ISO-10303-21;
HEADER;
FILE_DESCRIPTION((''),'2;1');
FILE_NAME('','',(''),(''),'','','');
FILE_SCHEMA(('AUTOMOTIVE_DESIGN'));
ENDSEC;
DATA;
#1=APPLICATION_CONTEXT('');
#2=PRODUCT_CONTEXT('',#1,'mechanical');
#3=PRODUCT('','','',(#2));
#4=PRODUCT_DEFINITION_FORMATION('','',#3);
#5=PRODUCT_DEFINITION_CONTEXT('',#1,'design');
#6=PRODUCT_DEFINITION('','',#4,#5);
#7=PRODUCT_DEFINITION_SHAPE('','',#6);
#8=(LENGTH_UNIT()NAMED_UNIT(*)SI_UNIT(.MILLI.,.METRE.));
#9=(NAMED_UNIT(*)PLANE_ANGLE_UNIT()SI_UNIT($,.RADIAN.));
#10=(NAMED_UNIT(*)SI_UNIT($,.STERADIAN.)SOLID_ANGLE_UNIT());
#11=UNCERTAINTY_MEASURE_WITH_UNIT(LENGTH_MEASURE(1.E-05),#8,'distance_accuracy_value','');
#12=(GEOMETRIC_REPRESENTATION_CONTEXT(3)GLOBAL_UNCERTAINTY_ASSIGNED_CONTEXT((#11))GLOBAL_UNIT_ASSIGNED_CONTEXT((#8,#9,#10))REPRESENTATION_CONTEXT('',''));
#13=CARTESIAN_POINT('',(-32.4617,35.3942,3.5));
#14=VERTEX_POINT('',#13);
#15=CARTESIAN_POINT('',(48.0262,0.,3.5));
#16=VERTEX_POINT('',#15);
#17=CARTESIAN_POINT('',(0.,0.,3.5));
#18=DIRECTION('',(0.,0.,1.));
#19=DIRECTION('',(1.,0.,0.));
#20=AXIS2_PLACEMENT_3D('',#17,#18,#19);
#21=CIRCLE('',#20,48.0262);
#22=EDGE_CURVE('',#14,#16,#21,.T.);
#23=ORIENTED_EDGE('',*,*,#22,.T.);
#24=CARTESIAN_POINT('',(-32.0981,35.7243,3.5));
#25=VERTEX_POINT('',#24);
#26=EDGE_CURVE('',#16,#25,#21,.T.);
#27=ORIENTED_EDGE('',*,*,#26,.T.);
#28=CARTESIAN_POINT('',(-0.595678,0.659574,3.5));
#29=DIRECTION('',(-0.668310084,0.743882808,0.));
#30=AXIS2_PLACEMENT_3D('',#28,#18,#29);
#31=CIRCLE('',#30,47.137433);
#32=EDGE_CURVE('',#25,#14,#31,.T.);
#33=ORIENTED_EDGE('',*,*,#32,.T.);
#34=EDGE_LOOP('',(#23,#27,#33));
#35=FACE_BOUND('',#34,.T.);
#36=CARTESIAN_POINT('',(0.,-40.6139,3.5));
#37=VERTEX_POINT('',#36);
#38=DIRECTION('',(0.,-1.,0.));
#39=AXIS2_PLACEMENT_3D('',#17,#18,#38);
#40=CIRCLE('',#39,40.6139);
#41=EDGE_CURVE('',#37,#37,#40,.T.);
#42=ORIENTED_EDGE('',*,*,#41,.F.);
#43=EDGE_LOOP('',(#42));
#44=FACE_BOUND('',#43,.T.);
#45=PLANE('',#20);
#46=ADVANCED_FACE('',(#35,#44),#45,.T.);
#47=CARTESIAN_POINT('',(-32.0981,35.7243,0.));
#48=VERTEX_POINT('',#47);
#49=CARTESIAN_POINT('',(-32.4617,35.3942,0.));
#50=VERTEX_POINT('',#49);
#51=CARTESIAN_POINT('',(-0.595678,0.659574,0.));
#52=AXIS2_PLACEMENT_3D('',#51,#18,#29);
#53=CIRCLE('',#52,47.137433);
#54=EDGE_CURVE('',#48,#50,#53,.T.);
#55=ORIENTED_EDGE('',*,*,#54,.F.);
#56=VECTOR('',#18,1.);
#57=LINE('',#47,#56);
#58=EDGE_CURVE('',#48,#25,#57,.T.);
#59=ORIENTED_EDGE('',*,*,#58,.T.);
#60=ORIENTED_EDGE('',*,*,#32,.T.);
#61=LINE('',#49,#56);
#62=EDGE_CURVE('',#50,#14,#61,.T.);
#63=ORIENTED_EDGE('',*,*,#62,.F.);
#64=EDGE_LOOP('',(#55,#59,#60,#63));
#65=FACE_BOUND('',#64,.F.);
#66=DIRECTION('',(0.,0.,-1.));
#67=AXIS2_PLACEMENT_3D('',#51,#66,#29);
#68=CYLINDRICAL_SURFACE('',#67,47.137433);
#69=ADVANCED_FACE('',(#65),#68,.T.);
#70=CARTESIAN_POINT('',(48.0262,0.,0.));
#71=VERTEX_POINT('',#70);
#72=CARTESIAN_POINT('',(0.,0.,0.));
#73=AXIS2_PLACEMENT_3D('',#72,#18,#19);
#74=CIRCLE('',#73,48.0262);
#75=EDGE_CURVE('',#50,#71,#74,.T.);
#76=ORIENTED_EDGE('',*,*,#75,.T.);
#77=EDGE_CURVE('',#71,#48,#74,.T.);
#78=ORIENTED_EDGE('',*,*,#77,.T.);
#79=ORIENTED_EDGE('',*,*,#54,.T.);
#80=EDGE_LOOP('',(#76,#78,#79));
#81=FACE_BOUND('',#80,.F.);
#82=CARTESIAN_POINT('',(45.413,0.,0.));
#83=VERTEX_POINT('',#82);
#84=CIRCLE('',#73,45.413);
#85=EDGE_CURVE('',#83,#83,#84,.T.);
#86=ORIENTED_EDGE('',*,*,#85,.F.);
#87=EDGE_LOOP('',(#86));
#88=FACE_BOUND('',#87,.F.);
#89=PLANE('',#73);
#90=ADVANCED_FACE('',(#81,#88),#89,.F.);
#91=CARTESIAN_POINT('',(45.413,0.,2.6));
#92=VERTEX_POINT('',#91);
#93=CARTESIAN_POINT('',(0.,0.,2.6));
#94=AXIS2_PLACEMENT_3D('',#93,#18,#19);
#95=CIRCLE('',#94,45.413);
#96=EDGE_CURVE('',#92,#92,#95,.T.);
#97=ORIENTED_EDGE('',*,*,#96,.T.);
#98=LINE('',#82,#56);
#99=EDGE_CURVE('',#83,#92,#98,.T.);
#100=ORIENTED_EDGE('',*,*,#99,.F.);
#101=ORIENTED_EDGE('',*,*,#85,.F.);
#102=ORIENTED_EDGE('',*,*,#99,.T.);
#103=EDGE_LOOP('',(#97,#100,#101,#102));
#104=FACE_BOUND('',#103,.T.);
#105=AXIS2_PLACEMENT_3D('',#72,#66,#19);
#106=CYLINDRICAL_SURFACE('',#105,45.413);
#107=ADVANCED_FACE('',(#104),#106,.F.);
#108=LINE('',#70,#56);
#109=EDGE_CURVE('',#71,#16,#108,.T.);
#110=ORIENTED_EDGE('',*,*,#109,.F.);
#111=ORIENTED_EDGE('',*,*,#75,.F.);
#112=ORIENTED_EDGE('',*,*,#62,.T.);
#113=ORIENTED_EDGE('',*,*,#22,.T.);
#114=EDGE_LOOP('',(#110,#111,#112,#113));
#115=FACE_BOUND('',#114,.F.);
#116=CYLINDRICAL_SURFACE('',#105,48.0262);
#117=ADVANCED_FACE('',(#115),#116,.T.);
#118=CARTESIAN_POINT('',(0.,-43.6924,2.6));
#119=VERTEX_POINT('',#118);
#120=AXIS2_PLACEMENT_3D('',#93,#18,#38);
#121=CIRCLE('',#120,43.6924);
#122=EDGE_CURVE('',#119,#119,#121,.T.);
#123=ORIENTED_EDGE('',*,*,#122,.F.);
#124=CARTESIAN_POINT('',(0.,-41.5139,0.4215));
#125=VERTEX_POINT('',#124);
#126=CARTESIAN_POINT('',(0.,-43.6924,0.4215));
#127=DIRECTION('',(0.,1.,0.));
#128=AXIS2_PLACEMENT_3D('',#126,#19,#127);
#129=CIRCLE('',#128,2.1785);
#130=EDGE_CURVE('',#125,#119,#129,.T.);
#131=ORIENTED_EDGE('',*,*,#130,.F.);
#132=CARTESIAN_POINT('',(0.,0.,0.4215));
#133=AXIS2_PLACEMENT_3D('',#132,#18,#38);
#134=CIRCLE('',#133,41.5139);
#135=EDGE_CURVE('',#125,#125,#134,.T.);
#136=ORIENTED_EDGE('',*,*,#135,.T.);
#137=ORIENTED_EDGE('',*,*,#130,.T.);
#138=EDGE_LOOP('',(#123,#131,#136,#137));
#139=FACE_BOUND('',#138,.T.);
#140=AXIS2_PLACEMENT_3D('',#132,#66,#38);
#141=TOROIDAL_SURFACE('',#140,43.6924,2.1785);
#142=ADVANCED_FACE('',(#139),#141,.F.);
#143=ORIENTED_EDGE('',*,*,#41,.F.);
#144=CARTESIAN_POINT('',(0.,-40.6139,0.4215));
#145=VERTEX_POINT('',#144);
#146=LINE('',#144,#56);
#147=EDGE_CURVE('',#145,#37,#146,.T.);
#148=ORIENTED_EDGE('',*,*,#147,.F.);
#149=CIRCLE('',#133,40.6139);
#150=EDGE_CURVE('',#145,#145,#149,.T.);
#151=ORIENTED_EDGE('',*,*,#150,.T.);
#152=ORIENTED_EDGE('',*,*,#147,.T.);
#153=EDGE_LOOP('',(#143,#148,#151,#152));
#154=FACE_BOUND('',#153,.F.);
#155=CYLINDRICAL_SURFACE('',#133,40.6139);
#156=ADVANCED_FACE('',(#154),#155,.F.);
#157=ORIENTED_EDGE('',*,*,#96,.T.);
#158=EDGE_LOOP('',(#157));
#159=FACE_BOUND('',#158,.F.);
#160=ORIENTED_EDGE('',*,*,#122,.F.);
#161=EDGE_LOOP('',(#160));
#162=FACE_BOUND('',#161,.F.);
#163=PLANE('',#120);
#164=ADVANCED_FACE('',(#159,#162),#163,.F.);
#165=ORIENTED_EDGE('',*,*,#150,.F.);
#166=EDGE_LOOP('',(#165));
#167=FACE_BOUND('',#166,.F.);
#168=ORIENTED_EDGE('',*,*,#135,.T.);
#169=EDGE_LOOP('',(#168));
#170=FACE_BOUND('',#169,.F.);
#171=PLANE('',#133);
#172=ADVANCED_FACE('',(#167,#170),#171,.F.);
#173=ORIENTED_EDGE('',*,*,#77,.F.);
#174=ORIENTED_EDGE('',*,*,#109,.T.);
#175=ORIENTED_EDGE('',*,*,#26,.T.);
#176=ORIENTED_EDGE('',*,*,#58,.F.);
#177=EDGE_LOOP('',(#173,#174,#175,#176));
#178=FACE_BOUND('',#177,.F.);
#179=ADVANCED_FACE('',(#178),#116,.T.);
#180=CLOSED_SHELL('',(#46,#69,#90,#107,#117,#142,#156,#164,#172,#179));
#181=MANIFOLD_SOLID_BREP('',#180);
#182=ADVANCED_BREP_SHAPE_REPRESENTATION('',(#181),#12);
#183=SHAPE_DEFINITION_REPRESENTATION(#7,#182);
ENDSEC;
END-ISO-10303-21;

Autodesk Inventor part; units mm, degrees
ref_plane "YZ Plane" through (0, 0, 0) normal (1, 0, 0) x (0, 1, 0)
ref_plane "XZ Plane" through (0, 0, 0) normal (0, 1, 0) x (-1, 0, 0)
ref_plane "РабПлоскость1" through (0, 0, 0) normal (0, 0, 1) x (1, 0, 0)
sketch "Эскиз1" plane through (0, 0, 0) normal (0, 0, 1) x (1, 0, 0)
  circle A0 centre (-0.0031, 0.0005) radius 45.313 projected
  arc A1 (-32.0981, 35.7243) -> (-32.4617, 35.3942) centre (0, 0) ccw projected
  circle A2 centre (0, 0) radius 45.413
  circle A3 centre (0, 0) radius 48.0262
  point P0 (0, 0)
  point P1 (-32.4617, 35.3942)
  point P2 (-32.0981, 35.7243)
  dimension "d0" = 90.626
  dimension "d1" = 90.826
ref_plane "РабПлоскость2" through (-45.3206, -45.317, 0.4115) normal (0, 0, 1) x (1, 0.0001, 0)
extrude "Выдавливание1" add sketch "Эскиз1" along normal blind 3.5 contours A3 A1
ref_plane "РабПлоскость3" through (0, 0, 1.75) normal (0, 0, 1) x (1, 0, 0)
sketch "Эскиз3" plane through (0, 0, 0) normal (0, 0, 1) x (1, 0, 0)
  arc A0 (-22.0856, 39.6831) -> (-7.3436, 35.1497) centre (-7.7664, 60.011) ccw projected
  line L0 (-7.3436, 35.1497) -> (7.3325, 35.1512) projected
  arc A1 (7.3325, 35.1512) -> (22.0736, 39.6875) centre (7.7504, 60.0125) ccw projected
  circle A2 centre (0, 0) radius 45.413 projected
  circle A3 centre (-15.1051, 31) radius 1.55 projected
  circle A4 centre (15.0949, 31.002) radius 1.55 projected
  arc A5 (-17.5837, 28.9218) -> (-32.0889, 32.1347) centre (-28.1894, 15.3907) ccw projected
  arc A6 (-16.8937, 28.4734) -> (-17.5837, 28.9218) centre (-22.6832, 20.3197) ccw projected
  arc A7 (-16.8937, 28.4734) -> (-9.3575, 28.0766) centre (-12.8523, 33.4648) ccw projected
  arc A8 (-5.0551, 30.151) -> (-5.054, 19.151) centre (-5.0545, 24.651) ccw projected
  line L1 (5.0449, 30.151) -> (-5.0551, 30.151) projected
  arc A9 (5.046, 19.151) -> (5.0449, 30.151) centre (5.0455, 24.651) ccw projected
  arc A10 (9.3461, 28.0795) -> (16.884, 28.4767) centre (12.8416, 33.4673) ccw projected
  arc A11 (17.5738, 28.9252) -> (16.884, 28.4767) centre (22.675, 20.3242) ccw projected
  arc A12 (32.0838, 32.1398) -> (17.5738, 28.9252) centre (28.1822, 15.3963) ccw projected
  point P0 (0, 0)
  point P1 (-22.0837, 39.6818)
extrude "Выдавливание2" [suppressed]
sketch "Эскиз4" plane through (0, 0, 0) normal (0, 0, -1) x (-1, 0, 0)
  circle A0 centre (-15.099, -31.001) radius 1.6 projected
  circle A1 centre (15.101, -31) radius 1.6 projected
  circle A2 centre (-15.101, 31) radius 1.6 projected
  circle A3 centre (15.099, 31.001) radius 1.6 projected
  arc A4 (47.464, 7.3269) -> (46.1696, 9.1429) centre (45.0118, 6.9484) ccw projected
  line L0 (46.1696, 9.1429) -> (46.154, 9.2214) projected
  arc A5 (46.154, 9.2214) -> (46.6549, 11.3945) centre (44.2445, 10.8058) ccw projected
  arc A6 (46.6549, 11.3945) -> (46.5359, 11.8709) centre (0, 0) ccw projected
  arc A7 (45.1226, 16.4459) -> (43.4988, 17.9745) centre (42.7913, 15.5962) ccw projected
  line L1 (43.4988, 17.9745) -> (43.4682, 18.0484) projected
  arc A8 (43.4682, 18.0484) -> (43.5355, 20.2775) centre (41.2862, 19.2298) ccw projected
  arc A9 (43.5355, 20.2775) -> (43.3259, 20.7215) centre (0, 0) ccw projected
  arc A10 (41.0471, 24.9329) -> (39.1563, 26.1153) centre (38.9264, 23.6447) ccw projected
  line L2 (39.1563, 26.1153) -> (39.1119, 26.1818) projected
  arc A11 (39.1119, 26.1818) -> (38.743, 28.3812) centre (36.7414, 26.9149) ccw projected
  arc A12 (38.743, 28.3812) -> (38.4508, 28.7758) centre (0, 0) ccw projected
  arc A13 (35.3942, 32.4617) -> (33.3091, 33.2525) centre (33.5656, 30.7846) ccw projected
  line L3 (33.3091, 33.2525) -> (33.2525, 33.3091) projected
  arc A14 (33.2525, 33.3091) -> (32.4617, 35.3942) centre (30.7846, 33.5656) ccw projected
  arc A15 (32.4617, 35.3942) -> (32.0981, 35.7243) centre (0, 0) ccw projected
  arc A16 (28.3812, 38.743) -> (26.1818, 39.1119) centre (26.9149, 36.7414) ccw projected
  line L4 (26.1818, 39.1119) -> (26.1153, 39.1563) projected
  arc A17 (26.1153, 39.1563) -> (24.9329, 41.0471) centre (23.6447, 38.9264) ccw projected
  arc A18 (24.9329, 41.0471) -> (24.5119, 41.2999) centre (0, 0) ccw projected
  arc A19 (20.2775, 43.5355) -> (18.0484, 43.4682) centre (19.2298, 41.2862) ccw projected
  line L5 (18.0484, 43.4682) -> (17.9745, 43.4988) projected
  arc A20 (17.9745, 43.4988) -> (16.4459, 45.1226) centre (15.5962, 42.7913) ccw projected
  arc A21 (16.4459, 45.1226) -> (15.9837, 45.2884) centre (0, 0) ccw projected
  arc A22 (11.3945, 46.6549) -> (9.2214, 46.154) centre (10.8058, 44.2445) ccw projected
  line L6 (9.2214, 46.154) -> (9.1429, 46.1696) projected
  arc A23 (9.1429, 46.1696) -> (7.3269, 47.464) centre (6.9484, 45.0118) ccw projected
  arc A24 (7.3269, 47.464) -> (6.8412, 47.5364) centre (0, 0) ccw projected
  arc A25 (2.0736, 47.9814) -> (0.04, 47.0662) centre (1.9665, 45.5024) ccw projected
  line L7 (0.04, 47.0662) -> (-0.04, 47.0662) projected
  arc A26 (-0.04, 47.0662) -> (-2.0736, 47.9814) centre (-1.9665, 45.5024) ccw projected
  arc A27 (-2.0736, 47.9814) -> (-2.5641, 47.9577) centre (0, 0) ccw projected
  arc A28 (-7.3269, 47.464) -> (-9.1429, 46.1696) centre (-6.9484, 45.0118) ccw projected
  line L8 (-9.1429, 46.1696) -> (-9.2214, 46.154) projected
  arc A29 (-9.2214, 46.154) -> (-11.3945, 46.6549) centre (-10.8058, 44.2445) ccw projected
  arc A30 (-11.3945, 46.6549) -> (-11.8709, 46.5359) centre (0, 0) ccw projected
  arc A31 (-16.4459, 45.1226) -> (-17.9745, 43.4988) centre (-15.5962, 42.7913) ccw projected
  line L9 (-17.9745, 43.4988) -> (-18.0484, 43.4682) projected
  arc A32 (-18.0484, 43.4682) -> (-20.2775, 43.5355) centre (-19.2298, 41.2862) ccw projected
  arc A33 (-20.2775, 43.5355) -> (-20.7215, 43.3259) centre (0, 0) ccw projected
  arc A34 (-24.9329, 41.0471) -> (-26.1153, 39.1563) centre (-23.6447, 38.9264) ccw projected
  line L10 (-26.1153, 39.1563) -> (-26.1818, 39.1119) projected
  arc A35 (-26.1818, 39.1119) -> (-28.3812, 38.743) centre (-26.9149, 36.7414) ccw projected
  arc A36 (-28.3812, 38.743) -> (-28.7758, 38.4508) centre (0, 0) ccw projected
  arc A37 (-32.4617, 35.3942) -> (-33.2525, 33.3091) centre (-30.7846, 33.5656) ccw projected
  line L11 (-33.2525, 33.3091) -> (-33.3091, 33.2525) projected
  arc A38 (-33.3091, 33.2525) -> (-35.3942, 32.4617) centre (-33.5656, 30.7846) ccw projected
  arc A39 (-35.3942, 32.4617) -> (-35.7243, 32.0981) centre (0, 0) ccw projected
  arc A40 (-38.743, 28.3812) -> (-39.1119, 26.1818) centre (-36.7414, 26.9149) ccw projected
  line L12 (-39.1119, 26.1818) -> (-39.1563, 26.1153) projected
  arc A41 (-39.1563, 26.1153) -> (-41.0471, 24.9329) centre (-38.9264, 23.6447) ccw projected
  arc A42 (-41.0471, 24.9329) -> (-41.2999, 24.5119) centre (0, 0) ccw projected
  arc A43 (-43.5355, 20.2775) -> (-43.4682, 18.0484) centre (-41.2862, 19.2298) ccw projected
  line L13 (-43.4682, 18.0484) -> (-43.4988, 17.9745) projected
  arc A44 (-43.4988, 17.9745) -> (-45.1226, 16.4459) centre (-42.7913, 15.5962) ccw projected
  arc A45 (-45.1226, 16.4459) -> (-45.2884, 15.9837) centre (0, 0) ccw projected
  arc A46 (-46.6549, 11.3945) -> (-46.154, 9.2214) centre (-44.2445, 10.8058) ccw projected
  line L14 (-46.154, 9.2214) -> (-46.1696, 9.1429) projected
  arc A47 (-46.1696, 9.1429) -> (-47.464, 7.3269) centre (-45.0118, 6.9484) ccw projected
  arc A48 (-47.464, 7.3269) -> (-47.5364, 6.8412) centre (0, 0) ccw projected
  arc A49 (-47.9814, 2.0736) -> (-47.0662, 0.04) centre (-45.5024, 1.9665) ccw projected
  line L15 (-47.0662, 0.04) -> (-47.0662, -0.04) projected
  arc A50 (-47.0662, -0.04) -> (-47.9814, -2.0736) centre (-45.5024, -1.9665) ccw projected
  arc A51 (-47.9814, -2.0736) -> (-47.9577, -2.5641) centre (0, 0) ccw projected
  arc A52 (-47.464, -7.3269) -> (-46.1696, -9.1429) centre (-45.0118, -6.9484) ccw projected
  line L16 (-46.1696, -9.1429) -> (-46.154, -9.2214) projected
  arc A53 (-46.154, -9.2214) -> (-46.6549, -11.3945) centre (-44.2445, -10.8058) ccw projected
  arc A54 (-46.6549, -11.3945) -> (-46.5359, -11.8709) centre (0, 0) ccw projected
  arc A55 (-45.1226, -16.4459) -> (-43.4988, -17.9745) centre (-42.7913, -15.5962) ccw projected
  line L17 (-43.4988, -17.9745) -> (-43.4682, -18.0484) projected
  arc A56 (-43.4682, -18.0484) -> (-43.5355, -20.2775) centre (-41.2862, -19.2298) ccw projected
  arc A57 (-43.5355, -20.2775) -> (-43.3259, -20.7215) centre (0, 0) ccw projected
  arc A58 (-41.0471, -24.9329) -> (-39.1563, -26.1153) centre (-38.9264, -23.6447) ccw projected
  line L18 (-39.1563, -26.1153) -> (-39.1119, -26.1818) projected
  arc A59 (-39.1119, -26.1818) -> (-38.743, -28.3812) centre (-36.7414, -26.9149) ccw projected
  arc A60 (-38.743, -28.3812) -> (-38.4508, -28.7758) centre (0, 0) ccw projected
  arc A61 (-35.3942, -32.4617) -> (-33.3091, -33.2525) centre (-33.5656, -30.7846) ccw projected
  line L19 (-33.3091, -33.2525) -> (-33.2525, -33.3091) projected
  arc A62 (-33.2525, -33.3091) -> (-32.4617, -35.3942) centre (-30.7846, -33.5656) ccw projected
  arc A63 (-32.4617, -35.3942) -> (-32.0981, -35.7243) centre (0, 0) ccw projected
  arc A64 (-28.3812, -38.743) -> (-26.1818, -39.1119) centre (-26.9149, -36.7414) ccw projected
  line L20 (-26.1818, -39.1119) -> (-26.1153, -39.1563) projected
  arc A65 (-26.1153, -39.1563) -> (-24.9329, -41.0471) centre (-23.6447, -38.9264) ccw projected
  arc A66 (-24.9329, -41.0471) -> (-24.5119, -41.2999) centre (0, 0) ccw projected
  arc A67 (-20.2775, -43.5355) -> (-18.0484, -43.4682) centre (-19.2298, -41.2862) ccw projected
  line L21 (-18.0484, -43.4682) -> (-17.9745, -43.4988) projected
  arc A68 (-17.9745, -43.4988) -> (-16.4459, -45.1226) centre (-15.5962, -42.7913) ccw projected
  arc A69 (-16.4459, -45.1226) -> (-15.9837, -45.2884) centre (0, 0) ccw projected
  arc A70 (-11.3945, -46.6549) -> (-9.2214, -46.154) centre (-10.8058, -44.2445) ccw projected
  line L22 (-9.2214, -46.154) -> (-9.1429, -46.1696) projected
  arc A71 (-9.1429, -46.1696) -> (-7.3269, -47.464) centre (-6.9484, -45.0118) ccw projected
  arc A72 (-7.3269, -47.464) -> (-6.8412, -47.5364) centre (0, 0) ccw projected
  arc A73 (-2.0736, -47.9814) -> (-0.04, -47.0662) centre (-1.9665, -45.5024) ccw projected
  line L23 (-0.04, -47.0662) -> (0.04, -47.0662) projected
  arc A74 (0.04, -47.0662) -> (2.0736, -47.9814) centre (1.9665, -45.5024) ccw projected
  arc A75 (2.0736, -47.9814) -> (2.5641, -47.9577) centre (0, 0) ccw projected
  arc A76 (7.3269, -47.464) -> (9.1429, -46.1696) centre (6.9484, -45.0118) ccw projected
  line L24 (9.1429, -46.1696) -> (9.2214, -46.154) projected
  arc A77 (9.2214, -46.154) -> (11.3945, -46.6549) centre (10.8058, -44.2445) ccw projected
  arc A78 (11.3945, -46.6549) -> (11.8709, -46.5359) centre (0, 0) ccw projected
  arc A79 (16.4459, -45.1226) -> (17.9745, -43.4988) centre (15.5962, -42.7913) ccw projected
  line L25 (17.9745, -43.4988) -> (18.0484, -43.4682) projected
  arc A80 (18.0484, -43.4682) -> (20.2775, -43.5355) centre (19.2298, -41.2862) ccw projected
  arc A81 (20.2775, -43.5355) -> (20.7215, -43.3259) centre (0, 0) ccw projected
  arc A82 (24.9329, -41.0471) -> (26.1153, -39.1563) centre (23.6447, -38.9264) ccw projected
  line L26 (26.1153, -39.1563) -> (26.1818, -39.1119) projected
  arc A83 (26.1818, -39.1119) -> (28.3812, -38.743) centre (26.9149, -36.7414) ccw projected
  arc A84 (28.3812, -38.743) -> (28.7758, -38.4508) centre (0, 0) ccw projected
  arc A85 (32.4617, -35.3942) -> (33.2525, -33.3091) centre (30.7846, -33.5656) ccw projected
  line L27 (33.2525, -33.3091) -> (33.3091, -33.2525) projected
  arc A86 (33.3091, -33.2525) -> (35.3942, -32.4617) centre (33.5656, -30.7846) ccw projected
  arc A87 (35.3942, -32.4617) -> (35.7243, -32.0981) centre (0, 0) ccw projected
  arc A88 (38.743, -28.3812) -> (39.1119, -26.1818) centre (36.7414, -26.9149) ccw projected
  line L28 (39.1119, -26.1818) -> (39.1563, -26.1153) projected
  arc A89 (39.1563, -26.1153) -> (41.0471, -24.9329) centre (38.9264, -23.6447) ccw projected
  arc A90 (41.0471, -24.9329) -> (41.2999, -24.5119) centre (0, 0) ccw projected
  arc A91 (43.5355, -20.2775) -> (43.4682, -18.0484) centre (41.2862, -19.2298) ccw projected
  line L29 (43.4682, -18.0484) -> (43.4988, -17.9745) projected
  arc A92 (43.4988, -17.9745) -> (45.1226, -16.4459) centre (42.7913, -15.5962) ccw projected
  arc A93 (45.1226, -16.4459) -> (45.2884, -15.9837) centre (0, 0) ccw projected
  arc A94 (46.6549, -11.3945) -> (46.154, -9.2214) centre (44.2445, -10.8058) ccw projected
  line L30 (46.154, -9.2214) -> (46.1696, -9.1429) projected
  arc A95 (46.1696, -9.1429) -> (47.464, -7.3269) centre (45.0118, -6.9484) ccw projected
  arc A96 (47.464, -7.3269) -> (47.5364, -6.8412) centre (0, 0) ccw projected
  arc A97 (47.9814, -2.0736) -> (47.0662, -0.04) centre (45.5024, -1.9665) ccw projected
  line L31 (47.0662, -0.04) -> (47.0662, 0.04) projected
  arc A98 (47.0662, 0.04) -> (47.9814, 2.0736) centre (45.5024, 1.9665) ccw projected
  arc A99 (47.9814, 2.0736) -> (47.9577, 2.5641) centre (0, 0) ccw projected
  arc A100 (27.9976, -29.0215) -> (27.9957, 29.0233) centre (0, 0) ccw projected
  arc A101 (22.6601, -30.3182) -> (27.9976, -29.0215) centre (22.6882, -18.8005) ccw projected
  arc A102 (16.8956, -28.4723) -> (22.6601, -30.3182) centre (22.6845, -20.3182) ccw projected
  arc A103 (16.8956, -28.4723) -> (12.0606, -31.6048) centre (15.101, -31) ccw projected
  arc A104 (5.6683, -39.9247) -> (12.0606, -31.6048) centre (4.6141, -32.4992) ccw projected
  arc A105 (-5.6658, -39.9251) -> (5.6683, -39.9247) centre (0, 0) ccw projected
  arc A106 (-12.0585, -31.6056) -> (-5.6658, -39.9251) centre (-4.612, -32.4995) ccw projected
  arc A107 (-12.0585, -31.6056) -> (-16.8937, -28.4734) centre (-15.099, -31.001) ccw projected
  arc A108 (-22.6581, -30.3197) -> (-16.8937, -28.4734) centre (-22.6832, -20.3197) ccw projected
  arc A109 (-27.9957, -29.0233) -> (-22.6581, -30.3197) centre (-22.687, -18.802) ccw projected
  arc A110 (-27.9976, 29.0215) -> (-27.9957, -29.0233) centre (0, 0) ccw projected
  arc A111 (-22.6601, 30.3182) -> (-27.9976, 29.0215) centre (-22.6882, 18.8005) ccw projected
  arc A112 (-16.8956, 28.4723) -> (-22.6601, 30.3182) centre (-22.6845, 20.3182) ccw projected
  arc A113 (-16.8956, 28.4723) -> (-12.0606, 31.6048) centre (-15.101, 31) ccw projected
  arc A114 (-5.6683, 39.9247) -> (-12.0606, 31.6048) centre (-4.6141, 32.4992) ccw projected
  arc A115 (5.6658, 39.9251) -> (-5.6683, 39.9247) centre (0, 0) ccw projected
  arc A116 (12.0585, 31.6056) -> (5.6658, 39.9251) centre (4.612, 32.4995) ccw projected
  arc A117 (12.0585, 31.6056) -> (16.8937, 28.4734) centre (15.099, 31.001) ccw projected
  arc A118 (22.6581, 30.3197) -> (16.8937, 28.4734) centre (22.6832, 20.3197) ccw projected
  arc A119 (27.9957, 29.0233) -> (22.6581, 30.3197) centre (22.687, 18.802) ccw projected
  circle A120 centre (0, 0) radius 48.0262 projected
  circle A121 centre (0, 0) radius 47.4785
  arc A122 (46.6623, -10.2485) -> (46.1696, -9.2404) centre (44.2445, -10.8058) ccw
  arc A123 (-3.4564, -47.5061) -> (-2.5641, -47.9577) centre (-2.4979, -46.7194) ccw projected
  arc A124 (-2.5641, -47.9577) -> (-2.0736, -47.9814) centre (0, 0) ccw projected
  arc A125 (2.5641, -47.9577) -> (3.4564, -47.5061) centre (2.4979, -46.7194) ccw projected
  line L32 (3.4564, -47.5061) -> (4.5479, -46.1761) projected
  line L33 (4.5479, -46.1761) -> (5.878, -47.2676) projected
  arc A126 (5.878, -47.2676) -> (6.8412, -47.5364) centre (6.6646, -46.3091) ccw projected
  arc A127 (6.8412, -47.5364) -> (7.3269, -47.464) centre (0, 0) ccw projected
  arc A128 (11.8709, -46.5359) -> (12.658, -45.9189) centre (11.5644, -45.3344) ccw projected
  line L34 (12.658, -45.9189) -> (13.4691, -44.4016) projected
  line L35 (13.4691, -44.4016) -> (14.9865, -45.2126) projected
  arc A129 (14.9865, -45.2126) -> (15.9837, -45.2884) centre (15.571, -44.119) ccw projected
  arc A130 (15.9837, -45.2884) -> (16.4459, -45.1226) centre (0, 0) ccw projected
  arc A131 (20.7215, -43.3259) -> (21.3731, -42.5672) centre (20.1865, -42.2072) ccw projected
  line L36 (21.3731, -42.5672) -> (21.8726, -40.9207) projected
  line L37 (21.8726, -40.9207) -> (23.519, -41.4202) projected
  arc A132 (23.519, -41.4202) -> (24.5119, -41.2999) centre (23.879, -40.2336) ccw projected
  arc A133 (24.5119, -41.2999) -> (24.9329, -41.0471) centre (0, 0) ccw projected
  arc A134 (28.7758, -38.4508) -> (29.2669, -37.5796) centre (28.0329, -37.458) ccw projected
  line L38 (29.2669, -37.5796) -> (29.4355, -35.8673) projected
  line L39 (29.4355, -35.8673) -> (31.1478, -36.0359) projected
  arc A135 (31.1478, -36.0359) -> (32.0981, -35.7243) centre (31.2693, -34.8019) ccw projected
  arc A136 (32.0981, -35.7243) -> (32.4617, -35.3942) centre (0, 0) ccw projected
  arc A137 (35.7243, -32.0981) -> (36.0359, -31.1478) centre (34.8019, -31.2693) ccw projected
  line L40 (36.0359, -31.1478) -> (35.8673, -29.4355) projected
  line L41 (35.8673, -29.4355) -> (37.5796, -29.2669) projected
  arc A138 (37.5796, -29.2669) -> (38.4508, -28.7758) centre (37.458, -28.0329) ccw projected
  arc A139 (38.4508, -28.7758) -> (38.743, -28.3812) centre (0, 0) ccw projected
  arc A140 (41.2999, -24.5119) -> (41.4202, -23.519) centre (40.2336, -23.879) ccw projected
  line L42 (41.4202, -23.519) -> (40.9207, -21.8726) projected
  line L43 (40.9207, -21.8726) -> (42.5672, -21.3731) projected
  arc A141 (42.5672, -21.3731) -> (43.3259, -20.7215) centre (42.2072, -20.1865) ccw projected
  arc A142 (43.3259, -20.7215) -> (43.5355, -20.2775) centre (0, 0) ccw projected
  arc A143 (45.2884, -15.9837) -> (45.2126, -14.9865) centre (44.119, -15.571) ccw projected
  line L44 (45.2126, -14.9865) -> (44.4016, -13.4691) projected
  line L45 (44.4016, -13.4691) -> (45.9189, -12.658) projected
  arc A144 (45.9189, -12.658) -> (46.5359, -11.8709) centre (45.3344, -11.5644) ccw projected
  arc A145 (46.5359, -11.8709) -> (46.6549, -11.3945) centre (0, 0) ccw projected
  arc A146 (47.5364, -6.8412) -> (47.2676, -5.878) centre (46.3091, -6.6646) ccw projected
  line L46 (47.2676, -5.878) -> (46.1761, -4.5479) projected
  line L47 (46.1761, -4.5479) -> (47.5061, -3.4564) projected
  arc A147 (47.5061, -3.4564) -> (47.9577, -2.5641) centre (46.7194, -2.4979) ccw projected
  arc A148 (47.9577, -2.5641) -> (47.9814, -2.0736) centre (0, 0) ccw projected
  arc A149 (47.9577, 2.5641) -> (47.5061, 3.4564) centre (46.7194, 2.4979) ccw projected
  line L48 (47.5061, 3.4564) -> (46.1761, 4.5479) projected
  line L49 (46.1761, 4.5479) -> (47.2676, 5.878) projected
  arc A150 (47.2676, 5.878) -> (47.5364, 6.8412) centre (46.3091, 6.6646) ccw projected
  arc A151 (47.5364, 6.8412) -> (47.464, 7.3269) centre (0, 0) ccw projected
  arc A152 (46.5359, 11.8709) -> (45.9189, 12.658) centre (45.3344, 11.5644) ccw projected
  line L50 (45.9189, 12.658) -> (44.4016, 13.4691) projected
  line L51 (44.4016, 13.4691) -> (45.2126, 14.9865) projected
  arc A153 (45.2126, 14.9865) -> (45.2884, 15.9837) centre (44.119, 15.571) ccw projected
  arc A154 (45.2884, 15.9837) -> (45.1226, 16.4459) centre (0, 0) ccw projected
  arc A155 (43.3259, 20.7215) -> (42.5672, 21.3731) centre (42.2072, 20.1865) ccw projected
  line L52 (42.5672, 21.3731) -> (40.9207, 21.8726) projected
  line L53 (40.9207, 21.8726) -> (41.4202, 23.519) projected
  arc A156 (41.4202, 23.519) -> (41.2999, 24.5119) centre (40.2336, 23.879) ccw projected
  arc A157 (41.2999, 24.5119) -> (41.0471, 24.9329) centre (0, 0) ccw projected
  arc A158 (38.4508, 28.7758) -> (37.5796, 29.2669) centre (37.458, 28.0329) ccw projected
  line L54 (37.5796, 29.2669) -> (35.8673, 29.4355) projected
  line L55 (35.8673, 29.4355) -> (36.0359, 31.1478) projected
  arc A159 (36.0359, 31.1478) -> (35.7243, 32.0981) centre (34.8019, 31.2693) ccw projected
  arc A160 (35.7243, 32.0981) -> (35.3942, 32.4617) centre (0, 0) ccw projected
  arc A161 (32.0981, 35.7243) -> (31.1478, 36.0359) centre (31.2693, 34.8019) ccw projected
  line L56 (31.1478, 36.0359) -> (29.4355, 35.8673) projected
  line L57 (29.4355, 35.8673) -> (29.2669, 37.5796) projected
  arc A162 (29.2669, 37.5796) -> (28.7758, 38.4508) centre (28.0329, 37.458) ccw projected
  arc A163 (28.7758, 38.4508) -> (28.3812, 38.743) centre (0, 0) ccw projected
  arc A164 (24.5119, 41.2999) -> (23.519, 41.4202) centre (23.879, 40.2336) ccw projected
  line L58 (23.519, 41.4202) -> (21.8726, 40.9207) projected
  line L59 (21.8726, 40.9207) -> (21.3731, 42.5672) projected
  arc A165 (21.3731, 42.5672) -> (20.7215, 43.3259) centre (20.1865, 42.2072) ccw projected
  arc A166 (20.7215, 43.3259) -> (20.2775, 43.5355) centre (0, 0) ccw projected
  arc A167 (15.9837, 45.2884) -> (14.9865, 45.2126) centre (15.571, 44.119) ccw projected
  line L60 (14.9865, 45.2126) -> (13.4691, 44.4016) projected
  line L61 (13.4691, 44.4016) -> (12.658, 45.9189) projected
  arc A168 (12.658, 45.9189) -> (11.8709, 46.5359) centre (11.5644, 45.3344) ccw projected
  arc A169 (11.8709, 46.5359) -> (11.3945, 46.6549) centre (0, 0) ccw projected
  arc A170 (6.8412, 47.5364) -> (5.878, 47.2676) centre (6.6646, 46.3091) ccw projected
  line L62 (5.878, 47.2676) -> (4.5479, 46.1761) projected
  line L63 (4.5479, 46.1761) -> (3.4564, 47.5061) projected
  arc A171 (3.4564, 47.5061) -> (2.5641, 47.9577) centre (2.4979, 46.7194) ccw projected
  arc A172 (2.5641, 47.9577) -> (2.0736, 47.9814) centre (0, 0) ccw projected
  arc A173 (-2.5641, 47.9577) -> (-3.4564, 47.5061) centre (-2.4979, 46.7194) ccw projected
  line L64 (-3.4564, 47.5061) -> (-4.5479, 46.1761) projected
  line L65 (-4.5479, 46.1761) -> (-5.878, 47.2676) projected
  arc A174 (-5.878, 47.2676) -> (-6.8412, 47.5364) centre (-6.6646, 46.3091) ccw projected
  arc A175 (-6.8412, 47.5364) -> (-7.3269, 47.464) centre (0, 0) ccw projected
  arc A176 (-11.8709, 46.5359) -> (-12.658, 45.9189) centre (-11.5644, 45.3344) ccw projected
  line L66 (-12.658, 45.9189) -> (-13.4691, 44.4016) projected
  line L67 (-13.4691, 44.4016) -> (-14.9865, 45.2126) projected
  arc A177 (-14.9865, 45.2126) -> (-15.9837, 45.2884) centre (-15.571, 44.119) ccw projected
  arc A178 (-15.9837, 45.2884) -> (-16.4459, 45.1226) centre (0, 0) ccw projected
  arc A179 (-20.7215, 43.3259) -> (-21.3731, 42.5672) centre (-20.1865, 42.2072) ccw projected
  line L68 (-21.3731, 42.5672) -> (-21.8726, 40.9207) projected
  line L69 (-21.8726, 40.9207) -> (-23.519, 41.4202) projected
  arc A180 (-23.519, 41.4202) -> (-24.5119, 41.2999) centre (-23.879, 40.2336) ccw projected
  arc A181 (-24.5119, 41.2999) -> (-24.9329, 41.0471) centre (0, 0) ccw projected
  arc A182 (-28.7758, 38.4508) -> (-29.2669, 37.5796) centre (-28.0329, 37.458) ccw projected
  line L70 (-29.2669, 37.5796) -> (-29.4355, 35.8673) projected
  line L71 (-29.4355, 35.8673) -> (-31.1478, 36.0359) projected
  arc A183 (-31.1478, 36.0359) -> (-32.0981, 35.7243) centre (-31.2693, 34.8019) ccw projected
  arc A184 (-32.0981, 35.7243) -> (-32.4617, 35.3942) centre (0, 0) ccw projected
  arc A185 (-35.7243, 32.0981) -> (-36.0359, 31.1478) centre (-34.8019, 31.2693) ccw projected
  line L72 (-36.0359, 31.1478) -> (-35.8673, 29.4355) projected
  line L73 (-35.8673, 29.4355) -> (-37.5796, 29.2669) projected
  arc A186 (-37.5796, 29.2669) -> (-38.4508, 28.7758) centre (-37.458, 28.0329) ccw projected
  arc A187 (-38.4508, 28.7758) -> (-38.743, 28.3812) centre (0, 0) ccw projected
  arc A188 (-41.2999, 24.5119) -> (-41.4202, 23.519) centre (-40.2336, 23.879) ccw projected
  line L74 (-41.4202, 23.519) -> (-40.9207, 21.8726) projected
  line L75 (-40.9207, 21.8726) -> (-42.5672, 21.3731) projected
  arc A189 (-42.5672, 21.3731) -> (-43.3259, 20.7215) centre (-42.2072, 20.1865) ccw projected
  arc A190 (-43.3259, 20.7215) -> (-43.5355, 20.2775) centre (0, 0) ccw projected
  arc A191 (-45.2884, 15.9837) -> (-45.2126, 14.9865) centre (-44.119, 15.571) ccw projected
  line L76 (-45.2126, 14.9865) -> (-44.4016, 13.4691) projected
  line L77 (-44.4016, 13.4691) -> (-45.9189, 12.658) projected
  arc A192 (-45.9189, 12.658) -> (-46.5359, 11.8709) centre (-45.3344, 11.5644) ccw projected
  arc A193 (-46.5359, 11.8709) -> (-46.6549, 11.3945) centre (0, 0) ccw projected
  arc A194 (-47.5364, 6.8412) -> (-47.2676, 5.878) centre (-46.3091, 6.6646) ccw projected
  line L78 (-47.2676, 5.878) -> (-46.1761, 4.5479) projected
  line L79 (-46.1761, 4.5479) -> (-47.5061, 3.4564) projected
  arc A195 (-47.5061, 3.4564) -> (-47.9577, 2.5641) centre (-46.7194, 2.4979) ccw projected
  arc A196 (-47.9577, 2.5641) -> (-47.9814, 2.0736) centre (0, 0) ccw projected
  arc A197 (-47.9577, -2.5641) -> (-47.5061, -3.4564) centre (-46.7194, -2.4979) ccw projected
  line L80 (-47.5061, -3.4564) -> (-46.1761, -4.5479) projected
  line L81 (-46.1761, -4.5479) -> (-47.2676, -5.878) projected
  arc A198 (-47.2676, -5.878) -> (-47.5364, -6.8412) centre (-46.3091, -6.6646) ccw projected
  arc A199 (-47.5364, -6.8412) -> (-47.464, -7.3269) centre (0, 0) ccw projected
  arc A200 (-46.5359, -11.8709) -> (-45.9189, -12.658) centre (-45.3344, -11.5644) ccw projected
  line L82 (-45.9189, -12.658) -> (-44.4016, -13.4691) projected
  line L83 (-44.4016, -13.4691) -> (-45.2126, -14.9865) projected
  arc A201 (-45.2126, -14.9865) -> (-45.2884, -15.9837) centre (-44.119, -15.571) ccw projected
  arc A202 (-45.2884, -15.9837) -> (-45.1226, -16.4459) centre (0, 0) ccw projected
  arc A203 (-43.3259, -20.7215) -> (-42.5672, -21.3731) centre (-42.2072, -20.1865) ccw projected
  line L84 (-42.5672, -21.3731) -> (-40.9207, -21.8726) projected
  line L85 (-40.9207, -21.8726) -> (-41.4202, -23.519) projected
  arc A204 (-41.4202, -23.519) -> (-41.2999, -24.5119) centre (-40.2336, -23.879) ccw projected
  arc A205 (-41.2999, -24.5119) -> (-41.0471, -24.9329) centre (0, 0) ccw projected
  arc A206 (-38.4508, -28.7758) -> (-37.5796, -29.2669) centre (-37.458, -28.0329) ccw projected
  line L86 (-37.5796, -29.2669) -> (-35.8673, -29.4355) projected
  line L87 (-35.8673, -29.4355) -> (-36.0359, -31.1478) projected
  arc A207 (-36.0359, -31.1478) -> (-35.7243, -32.0981) centre (-34.8019, -31.2693) ccw projected
  arc A208 (-35.7243, -32.0981) -> (-35.3942, -32.4617) centre (0, 0) ccw projected
  arc A209 (-32.0981, -35.7243) -> (-31.1478, -36.0359) centre (-31.2693, -34.8019) ccw projected
  line L88 (-31.1478, -36.0359) -> (-29.4355, -35.8673) projected
  line L89 (-29.4355, -35.8673) -> (-29.2669, -37.5796) projected
  arc A210 (-29.2669, -37.5796) -> (-28.7758, -38.4508) centre (-28.0329, -37.458) ccw projected
  arc A211 (-28.7758, -38.4508) -> (-28.3812, -38.743) centre (0, 0) ccw projected
  arc A212 (-24.5119, -41.2999) -> (-23.519, -41.4202) centre (-23.879, -40.2336) ccw projected
  line L90 (-23.519, -41.4202) -> (-21.8726, -40.9207) projected
  line L91 (-21.8726, -40.9207) -> (-21.3731, -42.5672) projected
  arc A213 (-21.3731, -42.5672) -> (-20.7215, -43.3259) centre (-20.1865, -42.2072) ccw projected
  arc A214 (-20.7215, -43.3259) -> (-20.2775, -43.5355) centre (0, 0) ccw projected
  arc A215 (-15.9837, -45.2884) -> (-14.9865, -45.2126) centre (-15.571, -44.119) ccw projected
  line L92 (-14.9865, -45.2126) -> (-13.4691, -44.4016) projected
  line L93 (-13.4691, -44.4016) -> (-12.658, -45.9189) projected
  arc A216 (-12.658, -45.9189) -> (-11.8709, -46.5359) centre (-11.5644, -45.3344) ccw projected
  arc A217 (-11.8709, -46.5359) -> (-11.3945, -46.6549) centre (0, 0) ccw projected
  arc A218 (-6.8412, -47.5364) -> (-5.878, -47.2676) centre (-6.6646, -46.3091) ccw projected
  line L94 (-5.878, -47.2676) -> (-4.5479, -46.1761) projected
  line L95 (-4.5479, -46.1761) -> (-3.4564, -47.5061) projected
  point P0 (0, 0)
  point P1 (46.4737, -9.7162)
sketch "Эскиз5" plane through (0, 0, 0) normal (0, 0, -1) x (-1, 0, 0)
  line L0 (4.5479, -46.1761) -> (0, 0) construction
  circle A0 centre (0, 0) radius 48.0262 projected
  arc A1 (3.1624, -47.9219) -> (6.2475, -47.6181) centre (0, 0) ccw
  line L1 (6.2475, -47.6181) -> (4.553, -46.2275)
  line L2 (4.553, -46.2275) -> (3.1624, -47.9219)
  line L3 (6.2475, -47.6181) -> (6.1901, -47.0353)
  dimension "d7" = 45
  dimension "d8" = 45
  dimension "d9" = 3.1
extrude "Выдавливание3" [suppressed]
sketch "Эскиз6" plane through (0, 0, -13.2) normal (0, 0, -1) x (-1, 0, 0)
  arc A0 (3.1624, -47.9219) -> (6.2475, -47.6181) centre (0, 0) ccw projected
  line L0 (6.2475, -47.6181) -> (4.553, -46.2275) projected
  line L1 (4.553, -46.2275) -> (3.1624, -47.9219) projected
  line L2 (3.1624, -47.9219) -> (4.308, -43.7395)
  line L3 (4.308, -43.7395) -> (6.2475, -47.6181)
  circle A1 centre (0, 0) radius 48.0262 projected
  line L4 (4.7074, -47.7949) -> (4.553, -46.2275)
  line L5 (4.553, -46.2275) -> (4.5494, -46.2278)
  point P0 (0, 0)
  dimension "d12" = 2.5
extrude "Выдавливание4" [suppressed]
chamfer "Фаска1" [suppressed]
pattern_circular "Круговой массив1" [suppressed]
sketch "Эскиз8" plane through (0, 0, 0) normal (1, 0, 0) x (0, 1, 0)
  line L0 (-45.413, 3.5) -> (45.413, 3.5) projected
  line L1 (-45.413, 0) -> (45.413, 0) projected
  line L2 (-45.3125, 0.4115) -> (45.3135, 0.4115) projected
  line L3 (-45.3125, 0) -> (45.3135, 0) projected
  line L4 (-42.7497, 2.1915) -> (-43.2497, 2.1915) projected
  line L5 (-45.413, 3.5) -> (45.413, 3.5) projected
  line L6 (-42.7498, 2.1915) -> (-42.7498, -0.7) projected
  line L7 (-45.413, 3.5) -> (-45.413, 0) projected
  line L8 (-45.413, 2.6) -> (-43.6924, 2.6)
  line L9 (-43.6924, 2.6) -> (-43.6924, 3.5) construction
  line L10 (48.0262, 3.5) -> (-48.0262, 3.5) projected
  line L11 (-45.3125, 0.4215) -> (-38.3644, 0.4215)
  arc A0 (-41.5139, 0.4215) -> (-43.6924, 2.6) centre (-43.6924, 0.4215) ccw
  line L12 (-41.5139, 0.4215) -> (-41.5139, 1.7216)
  arc A1 (-40.6139, 0.4215) -> (-43.6924, 3.5) centre (-43.6924, 0.4215) ccw construction
  line L13 (-40.6139, 0.4215) -> (-40.6139, 0.1377)
  line L14 (0, -1.6613) -> (0, 5.0678) projected
  line L15 (-40.6139, 0.4215) -> (-40.6139, 3.5)
  line L16 (-40.6139, 3.5) -> (-43.6924, 3.5)
  point P0 (0, 0)
  dimension "d21" = 0.01
  dimension "d22" = 3.8991
  dimension "d23" = 0.9
  dimension "d24" = 0.9
revolve "Вращение1" add sketch "Эскиз8" angle 360 about axis through (0, 0, 0) along (0, 0, 1) contours L0 L15 L11 A0 L8 L7
properties part number "кольцо тсопов"
